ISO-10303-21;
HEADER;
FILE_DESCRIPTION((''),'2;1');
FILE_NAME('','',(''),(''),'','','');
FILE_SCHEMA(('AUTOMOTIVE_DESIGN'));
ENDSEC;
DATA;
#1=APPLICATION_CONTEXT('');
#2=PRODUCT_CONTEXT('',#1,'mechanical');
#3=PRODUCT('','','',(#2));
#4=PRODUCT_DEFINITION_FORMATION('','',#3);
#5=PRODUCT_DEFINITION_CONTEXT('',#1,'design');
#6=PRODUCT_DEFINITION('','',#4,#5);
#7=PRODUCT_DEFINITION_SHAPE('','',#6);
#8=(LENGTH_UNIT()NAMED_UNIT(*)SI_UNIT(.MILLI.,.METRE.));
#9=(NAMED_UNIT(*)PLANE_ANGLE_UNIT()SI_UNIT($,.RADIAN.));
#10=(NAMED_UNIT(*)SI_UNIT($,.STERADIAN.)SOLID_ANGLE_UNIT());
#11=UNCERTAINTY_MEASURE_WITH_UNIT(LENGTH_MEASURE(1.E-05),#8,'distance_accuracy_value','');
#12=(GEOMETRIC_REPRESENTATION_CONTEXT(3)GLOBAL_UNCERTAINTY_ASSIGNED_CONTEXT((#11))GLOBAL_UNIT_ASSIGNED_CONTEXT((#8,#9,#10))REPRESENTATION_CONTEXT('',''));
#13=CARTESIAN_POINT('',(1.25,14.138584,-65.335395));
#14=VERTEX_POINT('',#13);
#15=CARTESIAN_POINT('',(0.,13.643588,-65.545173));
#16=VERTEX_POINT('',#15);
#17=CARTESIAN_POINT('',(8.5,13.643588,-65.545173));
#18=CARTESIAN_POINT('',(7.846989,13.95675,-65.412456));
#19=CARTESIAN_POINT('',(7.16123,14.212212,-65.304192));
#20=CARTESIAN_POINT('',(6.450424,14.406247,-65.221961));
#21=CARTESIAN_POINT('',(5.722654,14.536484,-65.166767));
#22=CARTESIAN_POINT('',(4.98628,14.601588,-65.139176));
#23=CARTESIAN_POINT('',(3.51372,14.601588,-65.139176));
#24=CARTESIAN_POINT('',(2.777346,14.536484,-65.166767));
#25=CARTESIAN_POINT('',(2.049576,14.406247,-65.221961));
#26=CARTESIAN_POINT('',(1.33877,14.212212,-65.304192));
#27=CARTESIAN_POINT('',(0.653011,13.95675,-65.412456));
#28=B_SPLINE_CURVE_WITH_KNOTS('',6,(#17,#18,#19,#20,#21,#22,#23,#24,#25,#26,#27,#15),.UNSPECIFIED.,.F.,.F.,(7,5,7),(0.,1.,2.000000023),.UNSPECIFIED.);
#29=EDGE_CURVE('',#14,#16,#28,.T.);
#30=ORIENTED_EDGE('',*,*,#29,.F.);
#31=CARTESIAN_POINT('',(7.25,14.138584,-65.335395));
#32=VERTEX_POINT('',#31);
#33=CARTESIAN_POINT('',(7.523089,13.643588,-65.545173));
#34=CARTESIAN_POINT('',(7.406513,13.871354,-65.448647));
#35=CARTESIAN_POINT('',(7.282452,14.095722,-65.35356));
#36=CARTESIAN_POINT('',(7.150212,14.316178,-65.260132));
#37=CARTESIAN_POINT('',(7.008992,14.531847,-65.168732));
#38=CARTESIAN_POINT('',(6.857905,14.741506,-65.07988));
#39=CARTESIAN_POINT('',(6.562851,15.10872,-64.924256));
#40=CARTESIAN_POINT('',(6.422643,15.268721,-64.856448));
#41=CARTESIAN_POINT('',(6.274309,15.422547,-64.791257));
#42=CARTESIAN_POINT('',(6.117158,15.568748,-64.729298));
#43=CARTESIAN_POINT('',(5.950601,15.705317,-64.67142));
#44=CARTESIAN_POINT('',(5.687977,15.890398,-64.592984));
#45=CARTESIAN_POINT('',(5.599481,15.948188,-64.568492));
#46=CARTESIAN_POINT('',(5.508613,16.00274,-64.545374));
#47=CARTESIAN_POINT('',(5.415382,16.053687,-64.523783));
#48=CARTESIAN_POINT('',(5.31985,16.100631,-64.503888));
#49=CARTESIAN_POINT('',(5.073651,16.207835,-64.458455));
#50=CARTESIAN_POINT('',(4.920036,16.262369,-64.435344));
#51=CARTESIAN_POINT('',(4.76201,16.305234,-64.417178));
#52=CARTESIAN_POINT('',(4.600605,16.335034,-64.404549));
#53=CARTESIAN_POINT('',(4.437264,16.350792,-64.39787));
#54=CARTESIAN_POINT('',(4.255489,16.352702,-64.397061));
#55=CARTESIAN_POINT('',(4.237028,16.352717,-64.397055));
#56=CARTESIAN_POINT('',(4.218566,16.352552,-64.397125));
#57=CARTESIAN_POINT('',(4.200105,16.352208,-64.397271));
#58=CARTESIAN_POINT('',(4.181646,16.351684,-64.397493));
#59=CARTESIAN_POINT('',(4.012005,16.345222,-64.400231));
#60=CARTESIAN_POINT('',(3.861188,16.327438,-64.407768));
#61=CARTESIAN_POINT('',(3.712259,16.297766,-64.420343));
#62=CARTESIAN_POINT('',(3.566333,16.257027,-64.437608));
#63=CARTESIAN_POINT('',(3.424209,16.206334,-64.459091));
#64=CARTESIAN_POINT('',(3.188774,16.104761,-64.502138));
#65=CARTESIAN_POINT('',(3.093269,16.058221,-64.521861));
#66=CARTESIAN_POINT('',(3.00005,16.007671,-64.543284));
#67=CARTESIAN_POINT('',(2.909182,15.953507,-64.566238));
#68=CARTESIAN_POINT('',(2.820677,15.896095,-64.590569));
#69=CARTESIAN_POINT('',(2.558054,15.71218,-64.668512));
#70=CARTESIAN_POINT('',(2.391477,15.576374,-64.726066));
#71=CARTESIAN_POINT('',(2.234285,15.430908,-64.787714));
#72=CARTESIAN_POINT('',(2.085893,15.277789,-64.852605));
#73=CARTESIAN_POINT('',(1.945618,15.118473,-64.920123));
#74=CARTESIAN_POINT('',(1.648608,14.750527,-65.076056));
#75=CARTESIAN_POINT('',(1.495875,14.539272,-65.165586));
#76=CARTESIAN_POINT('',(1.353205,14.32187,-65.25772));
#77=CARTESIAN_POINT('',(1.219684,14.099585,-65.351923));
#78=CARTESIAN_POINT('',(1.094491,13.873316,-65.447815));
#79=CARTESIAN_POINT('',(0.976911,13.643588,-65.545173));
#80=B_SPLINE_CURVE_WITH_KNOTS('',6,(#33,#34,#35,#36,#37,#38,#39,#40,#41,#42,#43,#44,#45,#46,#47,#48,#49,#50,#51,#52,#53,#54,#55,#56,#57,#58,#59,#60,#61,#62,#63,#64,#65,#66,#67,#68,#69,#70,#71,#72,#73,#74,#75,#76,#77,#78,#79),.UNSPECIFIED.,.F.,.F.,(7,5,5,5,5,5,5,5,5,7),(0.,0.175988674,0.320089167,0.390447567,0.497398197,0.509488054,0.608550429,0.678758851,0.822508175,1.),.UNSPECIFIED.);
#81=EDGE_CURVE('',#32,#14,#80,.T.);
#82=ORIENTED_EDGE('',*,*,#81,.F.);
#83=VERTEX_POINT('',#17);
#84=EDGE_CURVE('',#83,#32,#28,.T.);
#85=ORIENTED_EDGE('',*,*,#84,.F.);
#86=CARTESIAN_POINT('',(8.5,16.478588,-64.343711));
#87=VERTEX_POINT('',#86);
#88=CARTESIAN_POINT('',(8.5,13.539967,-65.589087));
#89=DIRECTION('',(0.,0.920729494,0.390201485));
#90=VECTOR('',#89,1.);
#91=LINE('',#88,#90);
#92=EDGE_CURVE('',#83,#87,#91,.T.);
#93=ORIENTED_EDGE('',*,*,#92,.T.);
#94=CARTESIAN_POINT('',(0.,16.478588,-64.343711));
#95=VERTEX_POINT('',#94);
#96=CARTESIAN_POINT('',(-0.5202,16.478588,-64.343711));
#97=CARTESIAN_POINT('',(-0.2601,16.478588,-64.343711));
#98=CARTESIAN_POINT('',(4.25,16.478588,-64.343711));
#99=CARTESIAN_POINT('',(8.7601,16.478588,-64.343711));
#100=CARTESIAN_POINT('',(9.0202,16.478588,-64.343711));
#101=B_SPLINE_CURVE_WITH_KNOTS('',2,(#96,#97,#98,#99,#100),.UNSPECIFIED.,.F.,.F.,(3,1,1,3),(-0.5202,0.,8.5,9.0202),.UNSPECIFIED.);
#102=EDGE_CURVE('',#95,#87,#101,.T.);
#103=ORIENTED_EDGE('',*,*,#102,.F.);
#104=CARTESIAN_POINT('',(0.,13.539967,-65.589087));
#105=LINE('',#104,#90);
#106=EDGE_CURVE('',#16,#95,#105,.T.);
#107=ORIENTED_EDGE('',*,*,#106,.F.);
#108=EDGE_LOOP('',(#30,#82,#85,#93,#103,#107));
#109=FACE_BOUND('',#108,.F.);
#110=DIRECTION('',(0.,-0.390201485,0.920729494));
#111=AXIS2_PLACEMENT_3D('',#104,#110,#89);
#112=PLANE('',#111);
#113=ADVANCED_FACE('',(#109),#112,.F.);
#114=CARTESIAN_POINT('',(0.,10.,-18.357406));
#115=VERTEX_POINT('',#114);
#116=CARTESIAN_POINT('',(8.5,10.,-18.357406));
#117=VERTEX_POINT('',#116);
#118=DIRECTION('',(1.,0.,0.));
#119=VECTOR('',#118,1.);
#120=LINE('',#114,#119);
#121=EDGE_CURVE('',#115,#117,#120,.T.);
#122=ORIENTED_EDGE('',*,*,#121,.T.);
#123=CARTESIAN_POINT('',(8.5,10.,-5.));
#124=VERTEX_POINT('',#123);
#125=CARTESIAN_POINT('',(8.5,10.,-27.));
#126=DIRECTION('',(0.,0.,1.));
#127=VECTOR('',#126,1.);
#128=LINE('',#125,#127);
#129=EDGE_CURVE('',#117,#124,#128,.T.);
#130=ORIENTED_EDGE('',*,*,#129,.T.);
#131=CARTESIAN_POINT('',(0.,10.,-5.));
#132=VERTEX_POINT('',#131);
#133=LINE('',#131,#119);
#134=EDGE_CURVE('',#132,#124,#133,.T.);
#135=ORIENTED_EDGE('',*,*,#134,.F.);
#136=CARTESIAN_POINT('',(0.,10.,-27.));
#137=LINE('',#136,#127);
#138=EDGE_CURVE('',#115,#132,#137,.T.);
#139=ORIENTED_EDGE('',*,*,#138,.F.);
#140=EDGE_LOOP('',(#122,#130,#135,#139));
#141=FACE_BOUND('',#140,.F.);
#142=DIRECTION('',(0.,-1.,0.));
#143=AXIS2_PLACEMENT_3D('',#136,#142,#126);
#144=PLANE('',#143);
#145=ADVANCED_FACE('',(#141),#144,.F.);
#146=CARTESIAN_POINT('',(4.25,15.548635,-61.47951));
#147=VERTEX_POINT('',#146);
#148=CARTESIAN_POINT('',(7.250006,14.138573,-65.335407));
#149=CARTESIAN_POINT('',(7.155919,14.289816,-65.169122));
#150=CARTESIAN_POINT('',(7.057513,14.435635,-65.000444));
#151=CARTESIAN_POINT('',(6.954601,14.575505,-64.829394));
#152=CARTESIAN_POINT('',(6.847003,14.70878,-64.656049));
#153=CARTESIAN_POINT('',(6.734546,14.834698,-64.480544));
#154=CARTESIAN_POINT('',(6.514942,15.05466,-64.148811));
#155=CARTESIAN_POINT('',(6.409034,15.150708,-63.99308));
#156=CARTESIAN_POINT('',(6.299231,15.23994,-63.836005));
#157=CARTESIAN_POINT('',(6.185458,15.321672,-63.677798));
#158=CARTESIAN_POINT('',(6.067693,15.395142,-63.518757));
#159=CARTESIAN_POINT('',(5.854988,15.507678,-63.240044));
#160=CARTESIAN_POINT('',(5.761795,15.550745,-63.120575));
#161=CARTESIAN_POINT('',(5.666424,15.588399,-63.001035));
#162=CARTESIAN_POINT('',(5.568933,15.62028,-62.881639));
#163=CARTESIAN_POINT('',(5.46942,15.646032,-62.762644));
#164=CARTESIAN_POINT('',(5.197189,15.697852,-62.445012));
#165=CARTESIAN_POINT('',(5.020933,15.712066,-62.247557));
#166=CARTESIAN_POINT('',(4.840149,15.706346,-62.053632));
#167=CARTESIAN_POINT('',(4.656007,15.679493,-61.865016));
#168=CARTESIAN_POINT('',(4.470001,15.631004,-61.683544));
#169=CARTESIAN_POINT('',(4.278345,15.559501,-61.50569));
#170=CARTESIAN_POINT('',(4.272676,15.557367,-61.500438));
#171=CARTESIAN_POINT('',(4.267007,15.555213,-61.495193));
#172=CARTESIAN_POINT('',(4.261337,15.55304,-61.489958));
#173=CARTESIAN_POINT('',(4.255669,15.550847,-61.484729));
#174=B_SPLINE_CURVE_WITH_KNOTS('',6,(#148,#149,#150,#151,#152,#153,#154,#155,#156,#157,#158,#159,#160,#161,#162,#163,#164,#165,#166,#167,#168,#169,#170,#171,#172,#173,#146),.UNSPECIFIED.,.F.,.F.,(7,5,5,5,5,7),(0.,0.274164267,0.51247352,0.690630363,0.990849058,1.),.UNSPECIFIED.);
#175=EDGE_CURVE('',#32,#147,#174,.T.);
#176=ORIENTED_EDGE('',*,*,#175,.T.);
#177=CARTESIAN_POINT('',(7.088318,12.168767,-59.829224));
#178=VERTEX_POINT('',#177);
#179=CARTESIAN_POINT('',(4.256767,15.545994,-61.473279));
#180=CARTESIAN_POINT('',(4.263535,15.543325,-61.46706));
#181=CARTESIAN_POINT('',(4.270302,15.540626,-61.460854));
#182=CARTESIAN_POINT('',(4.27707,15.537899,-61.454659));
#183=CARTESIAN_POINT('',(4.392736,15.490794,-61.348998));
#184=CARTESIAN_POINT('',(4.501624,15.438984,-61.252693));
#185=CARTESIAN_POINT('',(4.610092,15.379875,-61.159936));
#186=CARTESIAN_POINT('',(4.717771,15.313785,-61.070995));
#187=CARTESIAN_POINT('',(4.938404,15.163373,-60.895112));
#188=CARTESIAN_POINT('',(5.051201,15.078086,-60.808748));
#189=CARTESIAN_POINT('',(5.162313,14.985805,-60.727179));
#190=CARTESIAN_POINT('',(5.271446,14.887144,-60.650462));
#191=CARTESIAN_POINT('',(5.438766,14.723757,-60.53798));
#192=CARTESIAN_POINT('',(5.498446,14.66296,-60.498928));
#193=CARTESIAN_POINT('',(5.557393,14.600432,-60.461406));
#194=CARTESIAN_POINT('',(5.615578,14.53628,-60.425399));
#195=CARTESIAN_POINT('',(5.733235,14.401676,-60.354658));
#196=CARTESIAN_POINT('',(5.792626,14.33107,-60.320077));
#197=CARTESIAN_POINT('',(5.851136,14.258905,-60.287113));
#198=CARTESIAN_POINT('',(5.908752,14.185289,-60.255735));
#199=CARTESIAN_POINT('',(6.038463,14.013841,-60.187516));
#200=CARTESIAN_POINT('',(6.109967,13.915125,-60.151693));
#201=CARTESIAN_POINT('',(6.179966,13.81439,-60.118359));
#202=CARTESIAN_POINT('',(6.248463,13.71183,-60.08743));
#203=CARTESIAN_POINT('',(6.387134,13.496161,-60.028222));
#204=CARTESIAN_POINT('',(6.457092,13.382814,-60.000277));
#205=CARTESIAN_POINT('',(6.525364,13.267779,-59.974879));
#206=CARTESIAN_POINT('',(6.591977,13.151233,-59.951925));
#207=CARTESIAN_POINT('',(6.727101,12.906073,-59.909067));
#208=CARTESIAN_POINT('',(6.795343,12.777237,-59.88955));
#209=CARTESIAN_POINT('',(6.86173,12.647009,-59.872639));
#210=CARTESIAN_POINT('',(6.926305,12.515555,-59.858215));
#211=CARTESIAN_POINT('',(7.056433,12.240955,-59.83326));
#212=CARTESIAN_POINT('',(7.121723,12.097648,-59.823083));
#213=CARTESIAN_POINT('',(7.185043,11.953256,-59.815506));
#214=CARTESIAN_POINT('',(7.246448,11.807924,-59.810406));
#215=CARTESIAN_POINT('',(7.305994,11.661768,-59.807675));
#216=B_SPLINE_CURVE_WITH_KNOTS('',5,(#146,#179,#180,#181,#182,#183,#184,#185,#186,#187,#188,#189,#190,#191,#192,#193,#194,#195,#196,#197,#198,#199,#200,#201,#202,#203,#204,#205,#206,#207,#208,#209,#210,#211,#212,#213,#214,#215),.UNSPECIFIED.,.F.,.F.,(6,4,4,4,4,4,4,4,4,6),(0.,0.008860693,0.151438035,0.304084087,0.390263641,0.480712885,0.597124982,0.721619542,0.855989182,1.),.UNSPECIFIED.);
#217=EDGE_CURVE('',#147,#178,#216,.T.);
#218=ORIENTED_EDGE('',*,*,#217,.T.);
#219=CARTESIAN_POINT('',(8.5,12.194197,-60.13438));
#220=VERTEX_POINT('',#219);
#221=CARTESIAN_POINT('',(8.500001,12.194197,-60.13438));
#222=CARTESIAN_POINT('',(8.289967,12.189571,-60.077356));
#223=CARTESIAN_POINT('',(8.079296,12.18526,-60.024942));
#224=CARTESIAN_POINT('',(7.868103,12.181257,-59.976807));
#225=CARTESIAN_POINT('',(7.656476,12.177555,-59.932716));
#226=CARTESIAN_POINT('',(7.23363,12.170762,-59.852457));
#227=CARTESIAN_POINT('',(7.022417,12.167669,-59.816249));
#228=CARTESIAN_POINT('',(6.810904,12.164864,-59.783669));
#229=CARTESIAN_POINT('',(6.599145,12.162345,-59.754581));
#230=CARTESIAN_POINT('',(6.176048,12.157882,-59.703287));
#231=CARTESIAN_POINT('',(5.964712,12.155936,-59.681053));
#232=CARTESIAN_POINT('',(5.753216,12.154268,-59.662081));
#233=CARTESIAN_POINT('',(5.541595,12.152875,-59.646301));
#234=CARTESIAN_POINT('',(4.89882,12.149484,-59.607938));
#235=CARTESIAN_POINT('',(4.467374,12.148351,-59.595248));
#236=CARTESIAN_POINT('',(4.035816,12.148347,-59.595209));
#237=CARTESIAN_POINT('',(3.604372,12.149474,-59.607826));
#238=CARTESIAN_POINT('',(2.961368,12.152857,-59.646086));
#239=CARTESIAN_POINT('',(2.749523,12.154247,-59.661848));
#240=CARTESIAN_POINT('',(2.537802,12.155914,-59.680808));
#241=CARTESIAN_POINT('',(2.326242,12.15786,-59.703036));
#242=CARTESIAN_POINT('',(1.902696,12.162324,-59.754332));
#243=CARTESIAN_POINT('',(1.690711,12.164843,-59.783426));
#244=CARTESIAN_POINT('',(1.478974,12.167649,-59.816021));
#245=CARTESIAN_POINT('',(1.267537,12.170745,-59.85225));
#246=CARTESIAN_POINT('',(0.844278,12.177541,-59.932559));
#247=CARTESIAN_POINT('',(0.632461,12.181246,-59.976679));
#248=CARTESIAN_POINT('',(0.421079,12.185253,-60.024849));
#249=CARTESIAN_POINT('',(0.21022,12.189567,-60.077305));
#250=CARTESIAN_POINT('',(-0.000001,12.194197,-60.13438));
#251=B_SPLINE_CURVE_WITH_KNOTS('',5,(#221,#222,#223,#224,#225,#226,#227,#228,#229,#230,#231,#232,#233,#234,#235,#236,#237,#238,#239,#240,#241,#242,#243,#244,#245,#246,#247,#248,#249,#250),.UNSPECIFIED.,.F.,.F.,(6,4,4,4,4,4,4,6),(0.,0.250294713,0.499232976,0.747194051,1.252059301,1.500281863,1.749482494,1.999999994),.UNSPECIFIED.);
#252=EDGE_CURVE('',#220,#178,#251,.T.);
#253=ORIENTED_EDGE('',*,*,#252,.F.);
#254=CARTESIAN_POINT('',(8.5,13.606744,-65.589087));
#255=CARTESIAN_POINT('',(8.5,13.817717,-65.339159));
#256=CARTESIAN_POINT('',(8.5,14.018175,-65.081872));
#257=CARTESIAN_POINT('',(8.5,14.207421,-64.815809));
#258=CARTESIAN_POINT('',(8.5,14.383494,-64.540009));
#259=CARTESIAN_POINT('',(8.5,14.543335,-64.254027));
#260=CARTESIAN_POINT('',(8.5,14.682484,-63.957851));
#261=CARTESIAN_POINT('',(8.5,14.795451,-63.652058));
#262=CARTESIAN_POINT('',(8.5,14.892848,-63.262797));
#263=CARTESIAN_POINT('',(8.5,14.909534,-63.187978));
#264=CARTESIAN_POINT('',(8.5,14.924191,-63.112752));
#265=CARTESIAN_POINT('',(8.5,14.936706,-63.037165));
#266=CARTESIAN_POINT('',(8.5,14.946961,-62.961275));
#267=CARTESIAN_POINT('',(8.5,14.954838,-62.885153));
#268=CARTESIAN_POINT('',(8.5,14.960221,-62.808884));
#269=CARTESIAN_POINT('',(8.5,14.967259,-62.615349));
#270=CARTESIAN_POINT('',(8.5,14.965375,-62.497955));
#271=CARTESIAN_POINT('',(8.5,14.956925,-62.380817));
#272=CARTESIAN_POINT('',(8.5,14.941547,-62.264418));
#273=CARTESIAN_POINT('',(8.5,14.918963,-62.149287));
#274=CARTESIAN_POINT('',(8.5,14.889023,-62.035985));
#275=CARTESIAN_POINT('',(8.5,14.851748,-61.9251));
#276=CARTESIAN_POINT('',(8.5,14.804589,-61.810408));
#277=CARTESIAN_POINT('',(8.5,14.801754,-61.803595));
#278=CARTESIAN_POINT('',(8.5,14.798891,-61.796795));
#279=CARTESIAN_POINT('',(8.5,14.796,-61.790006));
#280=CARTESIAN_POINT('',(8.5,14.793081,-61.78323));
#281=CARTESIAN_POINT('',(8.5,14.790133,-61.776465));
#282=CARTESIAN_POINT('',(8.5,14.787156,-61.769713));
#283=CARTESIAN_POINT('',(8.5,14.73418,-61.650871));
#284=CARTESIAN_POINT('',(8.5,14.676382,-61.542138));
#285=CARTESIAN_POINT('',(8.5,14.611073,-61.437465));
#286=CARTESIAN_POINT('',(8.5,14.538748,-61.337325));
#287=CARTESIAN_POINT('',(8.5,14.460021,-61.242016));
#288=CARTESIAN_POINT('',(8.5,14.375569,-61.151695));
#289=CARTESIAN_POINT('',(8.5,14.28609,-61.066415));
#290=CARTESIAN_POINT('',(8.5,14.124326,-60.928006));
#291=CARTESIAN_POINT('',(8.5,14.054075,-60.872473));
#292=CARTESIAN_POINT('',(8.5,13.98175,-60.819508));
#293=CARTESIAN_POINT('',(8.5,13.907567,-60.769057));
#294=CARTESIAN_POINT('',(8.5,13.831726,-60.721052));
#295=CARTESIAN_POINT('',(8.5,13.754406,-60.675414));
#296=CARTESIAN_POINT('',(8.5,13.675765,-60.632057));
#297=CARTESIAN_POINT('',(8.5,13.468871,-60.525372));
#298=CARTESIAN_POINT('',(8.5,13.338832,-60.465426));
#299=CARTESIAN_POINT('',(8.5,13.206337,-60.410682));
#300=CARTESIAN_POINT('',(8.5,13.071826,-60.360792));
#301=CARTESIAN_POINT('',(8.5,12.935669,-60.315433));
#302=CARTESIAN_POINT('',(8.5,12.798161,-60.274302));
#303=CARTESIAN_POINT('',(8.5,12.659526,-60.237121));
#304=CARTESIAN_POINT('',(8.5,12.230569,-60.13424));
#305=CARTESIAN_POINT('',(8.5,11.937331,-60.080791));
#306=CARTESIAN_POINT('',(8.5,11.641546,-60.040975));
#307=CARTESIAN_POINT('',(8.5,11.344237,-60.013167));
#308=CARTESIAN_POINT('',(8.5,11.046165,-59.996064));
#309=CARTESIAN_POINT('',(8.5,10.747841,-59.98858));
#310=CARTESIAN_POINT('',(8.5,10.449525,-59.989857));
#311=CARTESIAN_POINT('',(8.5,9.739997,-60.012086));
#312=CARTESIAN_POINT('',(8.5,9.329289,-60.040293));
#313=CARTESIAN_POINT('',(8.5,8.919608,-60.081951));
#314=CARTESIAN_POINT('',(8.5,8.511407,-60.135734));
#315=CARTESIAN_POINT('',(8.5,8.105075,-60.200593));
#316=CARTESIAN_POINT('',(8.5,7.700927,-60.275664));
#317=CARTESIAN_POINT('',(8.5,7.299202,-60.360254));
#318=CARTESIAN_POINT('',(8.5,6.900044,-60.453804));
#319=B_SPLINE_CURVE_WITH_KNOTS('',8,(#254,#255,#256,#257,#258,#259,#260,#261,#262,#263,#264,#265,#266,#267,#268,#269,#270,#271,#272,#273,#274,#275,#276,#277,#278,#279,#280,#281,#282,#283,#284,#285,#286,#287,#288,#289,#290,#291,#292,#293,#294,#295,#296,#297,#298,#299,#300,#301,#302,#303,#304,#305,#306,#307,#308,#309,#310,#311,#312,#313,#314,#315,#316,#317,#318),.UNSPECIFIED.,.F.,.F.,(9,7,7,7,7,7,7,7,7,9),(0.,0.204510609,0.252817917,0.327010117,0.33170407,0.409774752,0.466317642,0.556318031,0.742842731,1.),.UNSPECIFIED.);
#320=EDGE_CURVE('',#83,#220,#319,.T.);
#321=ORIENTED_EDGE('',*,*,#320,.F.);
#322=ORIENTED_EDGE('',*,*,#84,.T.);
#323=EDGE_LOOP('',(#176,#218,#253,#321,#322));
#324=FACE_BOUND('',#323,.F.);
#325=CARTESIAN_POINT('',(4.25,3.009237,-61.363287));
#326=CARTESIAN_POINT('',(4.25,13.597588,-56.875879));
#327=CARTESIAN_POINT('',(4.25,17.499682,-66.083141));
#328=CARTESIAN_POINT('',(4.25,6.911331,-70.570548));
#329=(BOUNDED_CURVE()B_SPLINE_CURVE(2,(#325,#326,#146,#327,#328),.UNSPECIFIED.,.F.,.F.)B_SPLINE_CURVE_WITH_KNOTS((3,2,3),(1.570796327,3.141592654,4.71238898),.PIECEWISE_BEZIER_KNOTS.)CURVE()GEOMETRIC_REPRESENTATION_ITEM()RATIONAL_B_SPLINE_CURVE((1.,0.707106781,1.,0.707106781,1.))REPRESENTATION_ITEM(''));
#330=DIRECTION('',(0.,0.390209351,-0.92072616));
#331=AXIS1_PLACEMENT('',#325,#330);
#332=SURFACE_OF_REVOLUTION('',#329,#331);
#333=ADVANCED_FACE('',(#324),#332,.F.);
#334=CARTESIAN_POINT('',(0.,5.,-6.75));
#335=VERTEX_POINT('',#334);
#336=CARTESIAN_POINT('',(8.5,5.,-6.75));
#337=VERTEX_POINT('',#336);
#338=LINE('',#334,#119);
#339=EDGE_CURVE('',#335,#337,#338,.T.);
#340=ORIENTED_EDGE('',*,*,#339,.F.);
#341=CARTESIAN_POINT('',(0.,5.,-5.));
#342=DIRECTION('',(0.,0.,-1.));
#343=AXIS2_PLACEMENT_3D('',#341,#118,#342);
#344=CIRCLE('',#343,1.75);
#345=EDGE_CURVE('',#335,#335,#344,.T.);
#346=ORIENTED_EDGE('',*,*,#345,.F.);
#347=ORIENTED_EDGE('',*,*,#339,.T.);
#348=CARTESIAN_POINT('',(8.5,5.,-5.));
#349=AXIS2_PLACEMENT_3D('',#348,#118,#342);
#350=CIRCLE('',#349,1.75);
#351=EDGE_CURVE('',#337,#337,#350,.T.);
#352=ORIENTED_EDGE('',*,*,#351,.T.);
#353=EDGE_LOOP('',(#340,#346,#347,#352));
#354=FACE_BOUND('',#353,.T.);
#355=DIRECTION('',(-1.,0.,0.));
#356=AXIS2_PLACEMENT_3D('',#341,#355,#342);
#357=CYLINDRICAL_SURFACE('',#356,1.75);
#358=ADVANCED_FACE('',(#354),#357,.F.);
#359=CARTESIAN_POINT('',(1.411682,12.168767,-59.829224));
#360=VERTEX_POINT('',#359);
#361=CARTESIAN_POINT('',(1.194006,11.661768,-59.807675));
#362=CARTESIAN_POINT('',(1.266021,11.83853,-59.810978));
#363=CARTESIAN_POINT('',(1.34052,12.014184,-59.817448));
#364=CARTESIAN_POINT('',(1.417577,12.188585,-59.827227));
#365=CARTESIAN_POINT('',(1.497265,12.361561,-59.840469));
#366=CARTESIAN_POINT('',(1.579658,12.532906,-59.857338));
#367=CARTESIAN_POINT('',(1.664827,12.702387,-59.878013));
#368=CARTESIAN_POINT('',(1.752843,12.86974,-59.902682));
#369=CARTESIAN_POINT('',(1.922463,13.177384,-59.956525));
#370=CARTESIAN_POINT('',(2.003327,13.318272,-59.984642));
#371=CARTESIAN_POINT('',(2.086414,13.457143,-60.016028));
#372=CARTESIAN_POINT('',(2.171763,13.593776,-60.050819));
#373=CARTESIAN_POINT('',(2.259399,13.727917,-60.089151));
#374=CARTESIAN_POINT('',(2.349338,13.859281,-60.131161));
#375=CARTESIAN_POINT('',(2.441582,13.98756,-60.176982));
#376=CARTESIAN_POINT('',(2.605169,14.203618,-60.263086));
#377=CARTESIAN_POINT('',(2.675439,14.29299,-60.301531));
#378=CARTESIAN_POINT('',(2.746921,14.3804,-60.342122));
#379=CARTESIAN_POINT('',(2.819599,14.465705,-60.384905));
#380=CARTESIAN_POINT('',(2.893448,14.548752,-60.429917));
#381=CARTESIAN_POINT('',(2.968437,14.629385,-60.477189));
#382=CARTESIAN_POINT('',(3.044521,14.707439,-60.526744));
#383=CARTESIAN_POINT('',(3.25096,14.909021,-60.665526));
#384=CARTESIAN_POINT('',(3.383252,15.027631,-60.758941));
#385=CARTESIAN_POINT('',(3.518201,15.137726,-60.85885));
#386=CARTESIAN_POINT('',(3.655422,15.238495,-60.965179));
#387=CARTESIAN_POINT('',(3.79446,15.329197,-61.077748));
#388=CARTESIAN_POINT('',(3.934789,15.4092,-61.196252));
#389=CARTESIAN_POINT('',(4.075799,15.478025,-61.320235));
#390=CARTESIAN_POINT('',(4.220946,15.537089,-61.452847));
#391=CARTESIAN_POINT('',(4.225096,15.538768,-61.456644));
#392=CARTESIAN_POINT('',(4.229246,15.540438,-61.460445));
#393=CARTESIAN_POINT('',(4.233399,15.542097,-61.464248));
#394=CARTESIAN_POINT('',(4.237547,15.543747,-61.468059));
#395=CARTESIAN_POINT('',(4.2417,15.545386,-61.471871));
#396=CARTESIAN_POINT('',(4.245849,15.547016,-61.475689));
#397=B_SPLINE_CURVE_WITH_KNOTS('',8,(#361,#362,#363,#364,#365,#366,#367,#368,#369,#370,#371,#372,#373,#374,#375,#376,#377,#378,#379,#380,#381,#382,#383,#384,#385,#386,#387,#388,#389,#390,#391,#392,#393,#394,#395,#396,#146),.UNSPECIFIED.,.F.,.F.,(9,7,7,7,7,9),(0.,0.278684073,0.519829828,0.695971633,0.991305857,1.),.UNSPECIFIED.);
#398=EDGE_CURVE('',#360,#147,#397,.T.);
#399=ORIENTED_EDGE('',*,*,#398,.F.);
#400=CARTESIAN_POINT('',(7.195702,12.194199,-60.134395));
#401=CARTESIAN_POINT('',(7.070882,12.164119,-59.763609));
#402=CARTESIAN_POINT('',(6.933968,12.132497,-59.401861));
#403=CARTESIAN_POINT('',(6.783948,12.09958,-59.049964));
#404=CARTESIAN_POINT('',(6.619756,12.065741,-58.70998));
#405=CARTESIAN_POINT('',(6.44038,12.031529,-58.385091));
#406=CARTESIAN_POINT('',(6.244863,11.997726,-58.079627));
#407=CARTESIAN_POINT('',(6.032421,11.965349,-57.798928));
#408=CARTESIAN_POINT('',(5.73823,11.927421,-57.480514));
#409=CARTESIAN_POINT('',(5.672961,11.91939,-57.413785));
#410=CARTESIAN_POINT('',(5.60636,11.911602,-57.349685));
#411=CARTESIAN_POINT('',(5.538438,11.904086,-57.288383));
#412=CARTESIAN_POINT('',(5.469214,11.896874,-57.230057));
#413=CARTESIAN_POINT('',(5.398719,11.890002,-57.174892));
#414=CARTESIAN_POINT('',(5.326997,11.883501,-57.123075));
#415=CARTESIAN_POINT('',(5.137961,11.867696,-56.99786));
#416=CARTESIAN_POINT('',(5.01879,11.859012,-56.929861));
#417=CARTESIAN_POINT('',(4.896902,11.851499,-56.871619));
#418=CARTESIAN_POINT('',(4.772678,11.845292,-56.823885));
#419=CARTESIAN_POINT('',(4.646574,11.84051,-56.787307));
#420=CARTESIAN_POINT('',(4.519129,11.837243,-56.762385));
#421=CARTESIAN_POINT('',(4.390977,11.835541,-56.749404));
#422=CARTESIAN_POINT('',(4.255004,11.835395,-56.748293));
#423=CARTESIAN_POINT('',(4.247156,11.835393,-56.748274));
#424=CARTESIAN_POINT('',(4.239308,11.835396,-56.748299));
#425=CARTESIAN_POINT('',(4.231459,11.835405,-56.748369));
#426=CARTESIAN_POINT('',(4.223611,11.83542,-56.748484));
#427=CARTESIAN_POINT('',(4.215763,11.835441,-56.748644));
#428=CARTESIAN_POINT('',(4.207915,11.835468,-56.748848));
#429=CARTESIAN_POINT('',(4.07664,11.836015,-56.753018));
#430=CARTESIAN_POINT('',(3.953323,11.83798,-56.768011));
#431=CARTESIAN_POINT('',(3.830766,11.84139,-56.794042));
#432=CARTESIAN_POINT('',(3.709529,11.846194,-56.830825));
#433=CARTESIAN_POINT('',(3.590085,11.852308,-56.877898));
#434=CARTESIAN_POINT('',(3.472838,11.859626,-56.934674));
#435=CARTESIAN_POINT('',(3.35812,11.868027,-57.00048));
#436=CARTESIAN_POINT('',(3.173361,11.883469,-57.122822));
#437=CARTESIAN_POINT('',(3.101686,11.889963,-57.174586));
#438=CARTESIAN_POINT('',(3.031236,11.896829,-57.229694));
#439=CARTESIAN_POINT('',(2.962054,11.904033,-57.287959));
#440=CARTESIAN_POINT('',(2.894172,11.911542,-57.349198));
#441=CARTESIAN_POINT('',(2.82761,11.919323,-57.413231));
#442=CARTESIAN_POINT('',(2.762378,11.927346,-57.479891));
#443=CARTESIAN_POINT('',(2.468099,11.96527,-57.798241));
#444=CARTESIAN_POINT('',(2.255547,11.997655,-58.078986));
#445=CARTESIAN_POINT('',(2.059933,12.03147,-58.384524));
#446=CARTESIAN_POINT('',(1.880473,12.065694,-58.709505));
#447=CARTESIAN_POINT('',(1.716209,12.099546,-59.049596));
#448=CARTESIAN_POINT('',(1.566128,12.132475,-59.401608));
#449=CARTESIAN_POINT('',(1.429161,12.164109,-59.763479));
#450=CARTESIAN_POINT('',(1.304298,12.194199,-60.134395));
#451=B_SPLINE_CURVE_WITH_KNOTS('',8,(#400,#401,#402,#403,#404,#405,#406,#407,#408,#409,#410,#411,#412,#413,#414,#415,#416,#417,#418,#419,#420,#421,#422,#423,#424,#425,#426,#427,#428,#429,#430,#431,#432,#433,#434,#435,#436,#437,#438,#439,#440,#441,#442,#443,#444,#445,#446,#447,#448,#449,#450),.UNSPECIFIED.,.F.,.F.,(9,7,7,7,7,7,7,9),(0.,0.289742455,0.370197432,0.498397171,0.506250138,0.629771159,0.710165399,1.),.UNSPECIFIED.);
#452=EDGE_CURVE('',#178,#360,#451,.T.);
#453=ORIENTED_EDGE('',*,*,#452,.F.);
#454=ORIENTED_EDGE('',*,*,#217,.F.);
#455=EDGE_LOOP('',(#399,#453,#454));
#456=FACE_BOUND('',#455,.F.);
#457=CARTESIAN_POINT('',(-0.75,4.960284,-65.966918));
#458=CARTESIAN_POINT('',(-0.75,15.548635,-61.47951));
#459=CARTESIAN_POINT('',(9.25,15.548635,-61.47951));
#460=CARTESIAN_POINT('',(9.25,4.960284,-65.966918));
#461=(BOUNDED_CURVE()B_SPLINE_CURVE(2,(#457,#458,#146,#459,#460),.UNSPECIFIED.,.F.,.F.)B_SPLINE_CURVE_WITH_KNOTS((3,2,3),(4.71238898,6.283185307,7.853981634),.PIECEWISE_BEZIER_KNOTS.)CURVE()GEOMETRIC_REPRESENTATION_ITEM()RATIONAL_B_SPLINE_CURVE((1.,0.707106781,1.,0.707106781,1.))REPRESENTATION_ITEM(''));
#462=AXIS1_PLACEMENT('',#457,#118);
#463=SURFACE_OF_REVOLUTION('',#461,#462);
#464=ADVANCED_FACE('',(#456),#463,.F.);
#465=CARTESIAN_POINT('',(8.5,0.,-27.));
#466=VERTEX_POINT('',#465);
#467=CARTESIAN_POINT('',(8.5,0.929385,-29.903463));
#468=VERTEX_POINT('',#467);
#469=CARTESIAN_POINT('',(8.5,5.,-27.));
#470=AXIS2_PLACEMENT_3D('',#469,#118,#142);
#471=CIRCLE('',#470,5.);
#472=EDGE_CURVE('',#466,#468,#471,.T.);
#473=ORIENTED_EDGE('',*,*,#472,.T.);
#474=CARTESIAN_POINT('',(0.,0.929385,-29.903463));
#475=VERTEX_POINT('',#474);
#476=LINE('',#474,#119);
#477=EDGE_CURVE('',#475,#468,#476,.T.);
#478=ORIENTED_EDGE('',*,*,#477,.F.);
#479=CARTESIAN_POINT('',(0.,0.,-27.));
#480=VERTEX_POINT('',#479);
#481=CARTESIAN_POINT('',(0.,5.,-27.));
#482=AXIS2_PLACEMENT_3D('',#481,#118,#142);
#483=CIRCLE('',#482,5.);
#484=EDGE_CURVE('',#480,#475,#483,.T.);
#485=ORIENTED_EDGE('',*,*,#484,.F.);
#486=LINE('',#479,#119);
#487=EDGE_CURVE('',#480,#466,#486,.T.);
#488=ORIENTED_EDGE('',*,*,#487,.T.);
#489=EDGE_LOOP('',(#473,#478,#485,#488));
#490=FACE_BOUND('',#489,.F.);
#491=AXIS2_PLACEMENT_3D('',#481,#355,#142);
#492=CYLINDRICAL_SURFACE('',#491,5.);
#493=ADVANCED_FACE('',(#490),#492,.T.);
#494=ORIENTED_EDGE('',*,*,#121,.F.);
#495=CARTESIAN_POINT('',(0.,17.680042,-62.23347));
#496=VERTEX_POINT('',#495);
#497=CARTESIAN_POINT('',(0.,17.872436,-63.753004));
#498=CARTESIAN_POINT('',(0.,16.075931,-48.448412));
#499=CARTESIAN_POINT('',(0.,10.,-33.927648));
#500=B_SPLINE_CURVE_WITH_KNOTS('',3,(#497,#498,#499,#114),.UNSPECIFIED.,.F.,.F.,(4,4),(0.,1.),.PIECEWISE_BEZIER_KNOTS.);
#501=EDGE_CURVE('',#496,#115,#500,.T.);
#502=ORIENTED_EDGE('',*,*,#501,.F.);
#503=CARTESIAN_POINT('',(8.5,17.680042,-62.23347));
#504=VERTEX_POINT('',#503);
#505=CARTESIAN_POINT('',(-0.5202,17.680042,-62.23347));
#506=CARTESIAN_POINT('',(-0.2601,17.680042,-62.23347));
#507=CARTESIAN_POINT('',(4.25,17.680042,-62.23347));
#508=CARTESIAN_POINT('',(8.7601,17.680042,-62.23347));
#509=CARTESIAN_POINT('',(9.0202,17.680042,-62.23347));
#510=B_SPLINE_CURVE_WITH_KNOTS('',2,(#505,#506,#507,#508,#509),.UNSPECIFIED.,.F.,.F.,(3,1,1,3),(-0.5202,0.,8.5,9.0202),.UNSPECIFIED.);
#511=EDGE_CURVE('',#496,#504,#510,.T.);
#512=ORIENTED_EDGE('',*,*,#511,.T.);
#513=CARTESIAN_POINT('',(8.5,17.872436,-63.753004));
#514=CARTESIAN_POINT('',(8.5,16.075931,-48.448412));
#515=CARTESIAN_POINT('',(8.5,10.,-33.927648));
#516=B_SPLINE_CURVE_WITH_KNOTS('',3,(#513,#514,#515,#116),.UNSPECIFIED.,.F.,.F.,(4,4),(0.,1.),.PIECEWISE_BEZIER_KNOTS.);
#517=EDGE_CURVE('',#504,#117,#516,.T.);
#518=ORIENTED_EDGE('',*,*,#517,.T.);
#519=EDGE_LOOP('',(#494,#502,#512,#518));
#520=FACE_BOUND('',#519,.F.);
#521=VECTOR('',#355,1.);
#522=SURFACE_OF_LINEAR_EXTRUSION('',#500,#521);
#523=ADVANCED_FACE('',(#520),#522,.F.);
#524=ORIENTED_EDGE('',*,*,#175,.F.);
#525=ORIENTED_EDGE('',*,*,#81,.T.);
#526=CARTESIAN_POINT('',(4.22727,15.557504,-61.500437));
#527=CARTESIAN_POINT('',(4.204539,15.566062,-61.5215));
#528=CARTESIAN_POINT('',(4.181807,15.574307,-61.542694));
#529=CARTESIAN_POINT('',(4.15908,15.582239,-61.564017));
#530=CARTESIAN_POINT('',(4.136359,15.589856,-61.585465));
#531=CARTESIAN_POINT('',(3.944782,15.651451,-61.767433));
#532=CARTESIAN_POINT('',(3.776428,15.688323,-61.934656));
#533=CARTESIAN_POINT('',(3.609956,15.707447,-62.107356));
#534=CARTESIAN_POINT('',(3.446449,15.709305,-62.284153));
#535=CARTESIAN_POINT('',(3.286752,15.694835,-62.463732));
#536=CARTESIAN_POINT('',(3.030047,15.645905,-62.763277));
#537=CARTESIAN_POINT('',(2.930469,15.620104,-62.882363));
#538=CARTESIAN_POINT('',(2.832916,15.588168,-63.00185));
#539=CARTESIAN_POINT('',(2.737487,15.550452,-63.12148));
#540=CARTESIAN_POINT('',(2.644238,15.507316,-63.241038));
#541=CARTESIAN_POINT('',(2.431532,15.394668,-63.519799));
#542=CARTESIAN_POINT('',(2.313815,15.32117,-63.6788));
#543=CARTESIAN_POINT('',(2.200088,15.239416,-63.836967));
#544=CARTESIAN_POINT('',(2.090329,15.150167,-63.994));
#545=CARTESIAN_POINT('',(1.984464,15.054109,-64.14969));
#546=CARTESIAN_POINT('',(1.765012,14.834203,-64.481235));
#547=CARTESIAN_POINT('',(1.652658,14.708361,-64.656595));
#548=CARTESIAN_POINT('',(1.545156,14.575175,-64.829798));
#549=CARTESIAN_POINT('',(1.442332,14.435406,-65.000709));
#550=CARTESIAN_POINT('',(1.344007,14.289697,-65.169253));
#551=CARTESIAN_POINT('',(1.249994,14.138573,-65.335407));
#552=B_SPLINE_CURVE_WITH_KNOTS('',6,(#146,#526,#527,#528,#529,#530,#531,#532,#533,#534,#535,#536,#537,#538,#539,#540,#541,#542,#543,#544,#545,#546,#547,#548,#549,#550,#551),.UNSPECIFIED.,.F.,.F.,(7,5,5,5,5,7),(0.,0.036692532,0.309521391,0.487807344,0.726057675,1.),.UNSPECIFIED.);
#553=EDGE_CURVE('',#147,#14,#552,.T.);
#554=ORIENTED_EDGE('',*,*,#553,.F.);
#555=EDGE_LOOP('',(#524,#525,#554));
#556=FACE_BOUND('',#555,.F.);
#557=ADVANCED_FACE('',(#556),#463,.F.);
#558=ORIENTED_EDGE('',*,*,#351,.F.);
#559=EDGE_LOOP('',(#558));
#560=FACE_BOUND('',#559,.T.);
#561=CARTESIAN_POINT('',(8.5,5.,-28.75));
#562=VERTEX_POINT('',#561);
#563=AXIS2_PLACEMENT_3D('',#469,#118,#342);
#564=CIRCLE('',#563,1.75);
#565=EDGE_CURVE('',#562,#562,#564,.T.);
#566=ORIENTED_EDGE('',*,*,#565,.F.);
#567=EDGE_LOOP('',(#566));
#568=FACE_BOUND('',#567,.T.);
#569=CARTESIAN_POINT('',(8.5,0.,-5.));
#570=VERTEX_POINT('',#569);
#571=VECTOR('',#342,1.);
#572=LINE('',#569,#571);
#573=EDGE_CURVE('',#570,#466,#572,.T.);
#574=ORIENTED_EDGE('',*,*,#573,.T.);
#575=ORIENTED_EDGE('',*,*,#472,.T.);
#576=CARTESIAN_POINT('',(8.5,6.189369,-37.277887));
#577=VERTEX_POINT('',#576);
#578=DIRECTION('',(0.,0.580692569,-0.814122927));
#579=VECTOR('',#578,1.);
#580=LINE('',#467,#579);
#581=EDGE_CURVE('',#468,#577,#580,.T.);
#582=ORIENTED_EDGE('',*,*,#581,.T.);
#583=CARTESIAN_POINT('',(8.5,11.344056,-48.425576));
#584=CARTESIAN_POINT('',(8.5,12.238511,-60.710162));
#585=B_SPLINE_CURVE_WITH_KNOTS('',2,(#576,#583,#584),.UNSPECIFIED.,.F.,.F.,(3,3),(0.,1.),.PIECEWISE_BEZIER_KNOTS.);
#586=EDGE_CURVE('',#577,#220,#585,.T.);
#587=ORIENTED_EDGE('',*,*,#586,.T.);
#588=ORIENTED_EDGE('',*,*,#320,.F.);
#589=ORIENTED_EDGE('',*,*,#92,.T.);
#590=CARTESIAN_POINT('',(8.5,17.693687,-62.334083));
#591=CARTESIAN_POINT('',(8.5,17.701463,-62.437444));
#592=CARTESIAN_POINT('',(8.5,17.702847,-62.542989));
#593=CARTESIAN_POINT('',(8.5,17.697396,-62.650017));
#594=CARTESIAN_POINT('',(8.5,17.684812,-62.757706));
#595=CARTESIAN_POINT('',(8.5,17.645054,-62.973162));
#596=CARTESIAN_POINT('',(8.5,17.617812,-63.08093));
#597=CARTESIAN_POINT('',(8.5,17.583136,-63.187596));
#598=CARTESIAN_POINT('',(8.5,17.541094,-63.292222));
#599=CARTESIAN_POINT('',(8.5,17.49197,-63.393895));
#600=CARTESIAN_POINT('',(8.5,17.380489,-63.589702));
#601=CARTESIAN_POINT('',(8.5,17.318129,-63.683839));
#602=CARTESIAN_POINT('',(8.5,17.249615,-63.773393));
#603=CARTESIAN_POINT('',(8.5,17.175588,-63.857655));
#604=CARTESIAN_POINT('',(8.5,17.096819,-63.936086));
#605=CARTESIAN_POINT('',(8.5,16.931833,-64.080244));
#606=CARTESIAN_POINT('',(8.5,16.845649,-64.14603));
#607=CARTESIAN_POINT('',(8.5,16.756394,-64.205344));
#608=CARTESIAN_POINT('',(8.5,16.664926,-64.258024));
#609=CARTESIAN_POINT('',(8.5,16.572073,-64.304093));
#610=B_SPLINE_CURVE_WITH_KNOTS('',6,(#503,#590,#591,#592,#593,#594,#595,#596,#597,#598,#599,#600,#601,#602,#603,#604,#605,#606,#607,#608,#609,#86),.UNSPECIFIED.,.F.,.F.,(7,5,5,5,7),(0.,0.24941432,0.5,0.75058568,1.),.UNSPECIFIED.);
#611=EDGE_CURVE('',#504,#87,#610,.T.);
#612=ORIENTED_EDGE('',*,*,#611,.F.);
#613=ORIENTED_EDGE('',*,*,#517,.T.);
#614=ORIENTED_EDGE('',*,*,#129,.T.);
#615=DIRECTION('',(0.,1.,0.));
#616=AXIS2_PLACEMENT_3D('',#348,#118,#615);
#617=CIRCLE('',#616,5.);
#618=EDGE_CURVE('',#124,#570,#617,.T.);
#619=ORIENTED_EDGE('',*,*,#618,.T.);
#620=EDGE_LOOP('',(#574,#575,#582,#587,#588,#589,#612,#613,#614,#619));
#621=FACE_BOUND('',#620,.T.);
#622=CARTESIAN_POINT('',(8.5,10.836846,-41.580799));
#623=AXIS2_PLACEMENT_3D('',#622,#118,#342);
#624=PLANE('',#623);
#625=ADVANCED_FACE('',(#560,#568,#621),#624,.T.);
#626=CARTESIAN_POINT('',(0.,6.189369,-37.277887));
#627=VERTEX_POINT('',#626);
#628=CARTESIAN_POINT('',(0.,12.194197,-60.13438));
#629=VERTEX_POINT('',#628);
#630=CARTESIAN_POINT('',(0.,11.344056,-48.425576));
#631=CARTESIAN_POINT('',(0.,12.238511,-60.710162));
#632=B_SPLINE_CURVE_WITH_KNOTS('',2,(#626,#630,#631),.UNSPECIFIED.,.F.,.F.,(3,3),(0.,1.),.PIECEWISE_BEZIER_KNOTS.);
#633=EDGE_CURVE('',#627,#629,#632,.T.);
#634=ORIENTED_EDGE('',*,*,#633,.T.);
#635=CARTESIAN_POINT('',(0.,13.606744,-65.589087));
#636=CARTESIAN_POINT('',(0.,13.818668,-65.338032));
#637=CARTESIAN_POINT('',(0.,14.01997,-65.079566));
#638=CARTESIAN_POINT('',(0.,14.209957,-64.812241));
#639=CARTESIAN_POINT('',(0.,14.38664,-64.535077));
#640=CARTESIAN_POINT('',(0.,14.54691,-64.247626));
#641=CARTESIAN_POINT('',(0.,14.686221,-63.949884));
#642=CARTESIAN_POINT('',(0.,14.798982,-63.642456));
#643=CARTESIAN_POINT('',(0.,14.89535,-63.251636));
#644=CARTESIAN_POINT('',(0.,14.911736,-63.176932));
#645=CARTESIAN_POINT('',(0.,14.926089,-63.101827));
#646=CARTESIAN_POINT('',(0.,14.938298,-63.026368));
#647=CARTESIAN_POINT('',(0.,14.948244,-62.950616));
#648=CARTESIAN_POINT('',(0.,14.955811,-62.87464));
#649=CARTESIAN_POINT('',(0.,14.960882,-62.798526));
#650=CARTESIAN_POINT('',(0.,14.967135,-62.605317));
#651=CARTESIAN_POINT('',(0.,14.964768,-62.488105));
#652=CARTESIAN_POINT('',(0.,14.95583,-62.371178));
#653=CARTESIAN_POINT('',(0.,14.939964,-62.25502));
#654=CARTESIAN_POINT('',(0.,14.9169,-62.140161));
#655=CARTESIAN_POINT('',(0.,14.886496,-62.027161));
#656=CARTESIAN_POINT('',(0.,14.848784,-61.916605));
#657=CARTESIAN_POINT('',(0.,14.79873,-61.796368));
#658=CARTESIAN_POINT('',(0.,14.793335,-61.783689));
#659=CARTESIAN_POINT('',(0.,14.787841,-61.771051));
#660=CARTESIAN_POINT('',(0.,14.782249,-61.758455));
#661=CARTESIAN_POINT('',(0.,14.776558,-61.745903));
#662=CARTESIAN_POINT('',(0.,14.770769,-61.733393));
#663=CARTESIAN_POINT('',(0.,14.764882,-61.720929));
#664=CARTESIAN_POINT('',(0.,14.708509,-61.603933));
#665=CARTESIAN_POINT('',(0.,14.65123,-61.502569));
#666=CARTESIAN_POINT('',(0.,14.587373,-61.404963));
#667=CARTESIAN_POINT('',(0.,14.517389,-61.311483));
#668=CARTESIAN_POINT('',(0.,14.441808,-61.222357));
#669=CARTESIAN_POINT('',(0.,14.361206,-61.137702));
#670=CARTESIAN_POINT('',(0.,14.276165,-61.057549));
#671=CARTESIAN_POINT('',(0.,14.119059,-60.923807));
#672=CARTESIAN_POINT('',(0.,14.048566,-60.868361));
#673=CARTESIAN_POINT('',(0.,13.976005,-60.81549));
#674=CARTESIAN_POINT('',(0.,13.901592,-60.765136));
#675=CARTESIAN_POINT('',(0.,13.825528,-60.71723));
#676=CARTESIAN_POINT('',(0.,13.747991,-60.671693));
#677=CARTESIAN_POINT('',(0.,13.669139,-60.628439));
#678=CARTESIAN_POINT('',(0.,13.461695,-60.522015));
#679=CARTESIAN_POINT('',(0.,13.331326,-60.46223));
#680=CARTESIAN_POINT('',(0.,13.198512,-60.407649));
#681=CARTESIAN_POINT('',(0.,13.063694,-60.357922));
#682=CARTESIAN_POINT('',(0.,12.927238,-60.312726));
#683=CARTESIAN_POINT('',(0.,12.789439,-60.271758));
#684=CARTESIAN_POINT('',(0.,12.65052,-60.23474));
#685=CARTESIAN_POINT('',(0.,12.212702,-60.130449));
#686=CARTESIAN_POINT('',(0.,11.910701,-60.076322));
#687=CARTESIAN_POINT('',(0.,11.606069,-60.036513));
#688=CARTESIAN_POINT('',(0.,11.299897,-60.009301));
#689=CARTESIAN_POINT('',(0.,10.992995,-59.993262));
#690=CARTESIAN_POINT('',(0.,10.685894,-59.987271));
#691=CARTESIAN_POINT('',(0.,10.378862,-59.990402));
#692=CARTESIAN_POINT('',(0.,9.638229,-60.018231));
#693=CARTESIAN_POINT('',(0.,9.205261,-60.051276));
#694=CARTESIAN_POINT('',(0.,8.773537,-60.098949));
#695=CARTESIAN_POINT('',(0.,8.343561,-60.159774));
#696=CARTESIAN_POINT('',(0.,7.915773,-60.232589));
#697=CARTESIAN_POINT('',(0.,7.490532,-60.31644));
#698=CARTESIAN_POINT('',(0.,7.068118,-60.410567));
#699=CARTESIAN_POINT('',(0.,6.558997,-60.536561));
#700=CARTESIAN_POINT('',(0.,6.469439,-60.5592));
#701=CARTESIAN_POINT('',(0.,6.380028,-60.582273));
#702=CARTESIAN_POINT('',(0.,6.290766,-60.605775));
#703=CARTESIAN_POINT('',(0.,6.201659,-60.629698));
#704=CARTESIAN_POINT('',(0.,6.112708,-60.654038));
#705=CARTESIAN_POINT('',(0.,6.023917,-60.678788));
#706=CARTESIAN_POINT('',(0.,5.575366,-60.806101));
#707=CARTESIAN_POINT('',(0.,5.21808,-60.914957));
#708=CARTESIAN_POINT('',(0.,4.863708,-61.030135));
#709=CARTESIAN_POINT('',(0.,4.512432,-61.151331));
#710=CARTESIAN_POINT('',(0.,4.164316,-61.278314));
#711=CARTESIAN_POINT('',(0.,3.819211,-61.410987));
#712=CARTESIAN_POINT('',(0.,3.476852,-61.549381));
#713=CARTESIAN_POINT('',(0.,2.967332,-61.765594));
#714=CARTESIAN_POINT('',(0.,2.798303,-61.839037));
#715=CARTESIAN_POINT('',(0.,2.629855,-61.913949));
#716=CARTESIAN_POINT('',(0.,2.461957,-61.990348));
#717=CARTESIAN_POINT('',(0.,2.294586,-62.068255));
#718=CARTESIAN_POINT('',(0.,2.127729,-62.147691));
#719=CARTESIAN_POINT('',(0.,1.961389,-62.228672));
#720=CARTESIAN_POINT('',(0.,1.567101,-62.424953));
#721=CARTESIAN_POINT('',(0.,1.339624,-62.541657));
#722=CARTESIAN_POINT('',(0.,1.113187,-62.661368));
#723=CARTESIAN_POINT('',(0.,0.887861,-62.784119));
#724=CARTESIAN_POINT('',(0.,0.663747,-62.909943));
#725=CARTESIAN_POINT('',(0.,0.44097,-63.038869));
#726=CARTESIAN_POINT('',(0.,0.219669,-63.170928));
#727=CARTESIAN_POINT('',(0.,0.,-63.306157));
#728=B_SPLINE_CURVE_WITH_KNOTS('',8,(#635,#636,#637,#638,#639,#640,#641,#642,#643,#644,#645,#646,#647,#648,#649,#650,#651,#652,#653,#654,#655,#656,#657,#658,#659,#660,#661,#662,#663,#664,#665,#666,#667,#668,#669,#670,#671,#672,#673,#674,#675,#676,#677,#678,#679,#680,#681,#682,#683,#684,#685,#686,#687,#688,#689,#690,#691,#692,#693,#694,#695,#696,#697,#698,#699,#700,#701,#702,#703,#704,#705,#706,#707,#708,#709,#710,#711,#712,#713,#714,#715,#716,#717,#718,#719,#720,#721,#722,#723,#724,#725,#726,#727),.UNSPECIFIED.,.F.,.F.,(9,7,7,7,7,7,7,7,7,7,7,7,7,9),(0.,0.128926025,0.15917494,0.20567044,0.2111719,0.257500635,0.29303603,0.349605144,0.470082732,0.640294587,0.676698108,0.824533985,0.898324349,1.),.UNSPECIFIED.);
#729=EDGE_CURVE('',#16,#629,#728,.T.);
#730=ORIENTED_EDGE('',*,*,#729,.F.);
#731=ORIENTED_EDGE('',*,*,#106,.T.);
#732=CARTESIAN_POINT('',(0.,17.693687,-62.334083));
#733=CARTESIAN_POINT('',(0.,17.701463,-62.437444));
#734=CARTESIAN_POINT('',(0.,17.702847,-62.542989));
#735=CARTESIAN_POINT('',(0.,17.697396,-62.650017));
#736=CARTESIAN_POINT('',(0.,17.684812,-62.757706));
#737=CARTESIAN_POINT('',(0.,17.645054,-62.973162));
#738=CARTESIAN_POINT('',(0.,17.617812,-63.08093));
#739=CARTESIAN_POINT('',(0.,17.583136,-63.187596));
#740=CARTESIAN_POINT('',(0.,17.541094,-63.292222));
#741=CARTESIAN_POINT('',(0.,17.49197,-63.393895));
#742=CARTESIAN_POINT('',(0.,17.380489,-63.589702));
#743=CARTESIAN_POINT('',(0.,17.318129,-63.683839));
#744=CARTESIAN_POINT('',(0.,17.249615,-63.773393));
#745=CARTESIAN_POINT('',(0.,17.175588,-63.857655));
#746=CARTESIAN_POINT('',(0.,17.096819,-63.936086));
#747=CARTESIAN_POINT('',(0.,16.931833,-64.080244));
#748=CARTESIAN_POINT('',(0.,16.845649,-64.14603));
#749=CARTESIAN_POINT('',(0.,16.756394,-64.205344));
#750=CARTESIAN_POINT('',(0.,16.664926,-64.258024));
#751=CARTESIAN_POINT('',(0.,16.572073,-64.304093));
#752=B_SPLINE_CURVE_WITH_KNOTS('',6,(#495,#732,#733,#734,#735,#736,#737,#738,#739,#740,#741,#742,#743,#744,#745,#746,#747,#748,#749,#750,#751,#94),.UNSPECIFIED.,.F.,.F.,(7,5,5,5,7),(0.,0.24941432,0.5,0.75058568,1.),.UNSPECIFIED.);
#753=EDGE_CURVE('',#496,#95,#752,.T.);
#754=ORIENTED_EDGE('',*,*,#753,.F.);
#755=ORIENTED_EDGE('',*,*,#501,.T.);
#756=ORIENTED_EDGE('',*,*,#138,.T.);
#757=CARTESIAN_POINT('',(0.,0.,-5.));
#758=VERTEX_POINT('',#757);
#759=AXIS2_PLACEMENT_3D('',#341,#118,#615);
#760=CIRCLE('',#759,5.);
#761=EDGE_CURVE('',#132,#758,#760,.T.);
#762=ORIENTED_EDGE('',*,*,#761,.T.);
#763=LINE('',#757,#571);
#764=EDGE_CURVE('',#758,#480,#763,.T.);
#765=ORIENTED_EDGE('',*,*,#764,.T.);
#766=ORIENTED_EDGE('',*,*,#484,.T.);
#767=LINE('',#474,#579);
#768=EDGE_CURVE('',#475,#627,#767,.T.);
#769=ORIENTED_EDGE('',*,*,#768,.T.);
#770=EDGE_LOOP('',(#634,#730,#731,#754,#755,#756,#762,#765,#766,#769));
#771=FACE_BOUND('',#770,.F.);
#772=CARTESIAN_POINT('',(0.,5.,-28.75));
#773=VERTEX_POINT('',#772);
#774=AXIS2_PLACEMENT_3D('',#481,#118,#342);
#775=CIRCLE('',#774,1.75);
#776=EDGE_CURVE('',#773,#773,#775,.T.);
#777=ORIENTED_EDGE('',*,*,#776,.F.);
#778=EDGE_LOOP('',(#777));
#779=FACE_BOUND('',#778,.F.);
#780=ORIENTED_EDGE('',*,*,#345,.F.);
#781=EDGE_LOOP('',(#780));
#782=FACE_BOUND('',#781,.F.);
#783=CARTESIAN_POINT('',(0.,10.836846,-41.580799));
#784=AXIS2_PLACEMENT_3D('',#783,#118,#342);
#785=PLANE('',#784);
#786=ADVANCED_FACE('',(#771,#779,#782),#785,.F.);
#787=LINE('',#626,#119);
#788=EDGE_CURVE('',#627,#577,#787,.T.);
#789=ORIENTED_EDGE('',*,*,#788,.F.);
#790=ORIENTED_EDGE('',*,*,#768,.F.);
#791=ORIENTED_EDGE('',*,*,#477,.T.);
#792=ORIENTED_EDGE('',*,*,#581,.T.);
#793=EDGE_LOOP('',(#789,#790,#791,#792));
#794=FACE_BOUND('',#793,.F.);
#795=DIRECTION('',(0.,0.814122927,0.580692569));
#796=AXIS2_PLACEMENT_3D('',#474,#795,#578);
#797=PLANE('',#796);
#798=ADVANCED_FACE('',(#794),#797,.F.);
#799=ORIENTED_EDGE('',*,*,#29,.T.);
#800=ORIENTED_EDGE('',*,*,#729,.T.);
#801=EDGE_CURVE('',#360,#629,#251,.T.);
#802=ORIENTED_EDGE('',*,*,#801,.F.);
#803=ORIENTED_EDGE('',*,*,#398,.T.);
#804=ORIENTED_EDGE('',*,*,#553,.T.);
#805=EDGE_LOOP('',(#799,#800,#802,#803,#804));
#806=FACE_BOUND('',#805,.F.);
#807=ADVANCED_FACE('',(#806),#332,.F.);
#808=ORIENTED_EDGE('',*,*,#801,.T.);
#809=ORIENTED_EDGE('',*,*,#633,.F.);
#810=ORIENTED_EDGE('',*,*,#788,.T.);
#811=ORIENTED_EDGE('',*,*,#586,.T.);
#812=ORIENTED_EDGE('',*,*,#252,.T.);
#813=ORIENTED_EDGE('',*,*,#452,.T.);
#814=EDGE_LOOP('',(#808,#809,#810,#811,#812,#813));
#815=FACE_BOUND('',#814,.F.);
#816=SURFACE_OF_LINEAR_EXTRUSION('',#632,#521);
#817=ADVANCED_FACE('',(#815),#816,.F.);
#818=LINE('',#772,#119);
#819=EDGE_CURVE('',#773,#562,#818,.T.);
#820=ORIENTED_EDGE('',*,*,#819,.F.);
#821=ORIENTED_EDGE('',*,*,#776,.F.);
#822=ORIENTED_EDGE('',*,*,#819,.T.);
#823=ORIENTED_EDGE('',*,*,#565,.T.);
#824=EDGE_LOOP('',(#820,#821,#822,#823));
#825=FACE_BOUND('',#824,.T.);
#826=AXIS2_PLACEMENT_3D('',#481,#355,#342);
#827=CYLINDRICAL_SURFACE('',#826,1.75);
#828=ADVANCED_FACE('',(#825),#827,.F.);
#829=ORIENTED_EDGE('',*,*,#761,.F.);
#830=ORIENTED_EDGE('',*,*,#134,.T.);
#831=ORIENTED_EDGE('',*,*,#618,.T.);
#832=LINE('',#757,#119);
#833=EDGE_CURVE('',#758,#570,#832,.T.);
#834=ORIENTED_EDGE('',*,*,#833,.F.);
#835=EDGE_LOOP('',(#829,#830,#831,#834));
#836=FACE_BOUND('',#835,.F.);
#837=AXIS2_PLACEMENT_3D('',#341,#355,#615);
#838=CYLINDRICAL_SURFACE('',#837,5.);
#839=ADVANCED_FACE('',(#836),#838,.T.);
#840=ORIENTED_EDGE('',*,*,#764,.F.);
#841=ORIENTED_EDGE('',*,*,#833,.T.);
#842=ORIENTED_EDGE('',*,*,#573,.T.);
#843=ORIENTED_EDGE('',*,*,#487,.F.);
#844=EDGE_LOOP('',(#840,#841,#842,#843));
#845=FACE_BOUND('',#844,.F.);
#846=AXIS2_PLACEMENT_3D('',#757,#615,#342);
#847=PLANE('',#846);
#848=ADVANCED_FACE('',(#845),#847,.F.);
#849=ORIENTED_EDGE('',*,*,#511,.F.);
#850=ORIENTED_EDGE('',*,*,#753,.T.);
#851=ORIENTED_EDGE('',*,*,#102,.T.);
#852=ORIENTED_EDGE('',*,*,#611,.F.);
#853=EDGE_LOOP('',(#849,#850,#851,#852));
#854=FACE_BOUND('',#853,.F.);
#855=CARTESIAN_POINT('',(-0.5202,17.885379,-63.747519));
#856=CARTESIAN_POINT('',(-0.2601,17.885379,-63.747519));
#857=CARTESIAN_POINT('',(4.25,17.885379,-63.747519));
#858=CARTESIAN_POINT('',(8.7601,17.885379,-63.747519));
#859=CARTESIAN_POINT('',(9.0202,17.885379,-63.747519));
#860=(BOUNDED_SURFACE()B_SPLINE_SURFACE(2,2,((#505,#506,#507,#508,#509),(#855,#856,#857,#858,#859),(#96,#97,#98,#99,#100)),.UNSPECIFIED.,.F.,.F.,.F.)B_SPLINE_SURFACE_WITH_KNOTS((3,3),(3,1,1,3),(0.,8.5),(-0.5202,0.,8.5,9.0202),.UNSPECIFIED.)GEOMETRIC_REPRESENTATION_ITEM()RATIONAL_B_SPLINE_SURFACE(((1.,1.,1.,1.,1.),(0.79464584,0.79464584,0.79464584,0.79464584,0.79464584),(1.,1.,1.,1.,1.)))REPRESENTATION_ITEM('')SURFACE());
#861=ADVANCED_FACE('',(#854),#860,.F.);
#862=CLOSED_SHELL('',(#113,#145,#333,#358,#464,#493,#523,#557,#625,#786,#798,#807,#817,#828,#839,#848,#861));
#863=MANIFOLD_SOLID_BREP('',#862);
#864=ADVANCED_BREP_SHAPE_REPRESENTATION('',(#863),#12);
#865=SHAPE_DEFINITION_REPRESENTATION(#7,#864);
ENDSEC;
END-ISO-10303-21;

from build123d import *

# Parameters (mm, degrees)
SKETCH1_R           = 1.7499999999999998
SKETCH1_R_2         = 1.7500000000000002
BOSS_EXTRUDE1_DEPTH = 8.5
BOSS_EXTRUDE2_START = -8.5
BOSS_EXTRUDE2_DEPTH = 8.5
FILLET1_R           = 2


with BuildPart() as part:
    # Sketch1 → Boss-Extrude1 (new body)
    with BuildSketch(Plane(origin=(0, 0, 0), x_dir=(0, 0, -1), z_dir=(1, 0, 0))):
        with BuildLine():
            Line((27, 10), (4.999999999999845, 10))
            ThreePointArc((4.999999999999845, 9.999999999999996), (2.66e-15, 4.999999999999989), (4.999999999999866, 2.66e-15))
            Line((4.999999999999866, 0), (27, 0))
            ThreePointArc((27, -8.9e-16), (32, 5), (27, 10))
        make_face()
        with Locations((5, 5)):
            Circle(SKETCH1_R, mode=Mode.SUBTRACT)
        with Locations((27, 5)):
            Circle(SKETCH1_R_2, mode=Mode.SUBTRACT)
    extrude(amount=BOSS_EXTRUDE1_DEPTH)

    # Sketch2 → Boss-Extrude2 (add)
    with BuildSketch(Plane(origin=(8.5, 0, 0), x_dir=(0, 0, -1), z_dir=(1, 0, 0)).offset(BOSS_EXTRUDE2_START)):
        with BuildLine():
            add(Edge.make_bspline(
                [(63.753003749139694, 17.8724364513696), (48.4484123726985, 16.075931173157382), (33.927648133343, 10.00000000000011), (18.35740593050513, 10)],
                knots=[0, 0, 0, 0, 1, 1, 1, 1], degree=3))
            Line((18.35740593050513, 10), (27, 10.000000000000002))
            ThreePointArc((27, 10.000000000000004), (31.76198872224619, 6.524291116945876), (29.90346284332652, 0.9293853636800407))
            Line((29.903462843326523, 0.9293853636800362), (37.27788733358429, 6.189369275529155))
            add(Edge.make_bspline(
                [(37.27788733358429, 6.189369275529155), (48.425576395597574, 11.344056029156562), (60.710162222104955, 12.2385110488325)],
                knots=[0, 0, 0, 1, 1, 1], degree=2))
            Line((60.710162222104955, 12.238511048832498), (65.58908690842728, 13.539967250903384))
            Line((65.58908690842728, 13.539967250903384), (63.753003749139694, 17.8724364513696))
        make_face()
    extrude(amount=BOSS_EXTRUDE2_DEPTH)

    # Sketch3 → Cut-Revolve1 (revolve, cut)
    with BuildSketch(Plane.ZY.offset(-4.25)):
        with BuildLine():
            Line((-61.363286830934264, 3.0092373204057665), (-70.57054843387056, 6.911330832239489))
            add(Edge.make_bspline(
                [(-61.363286830934264, 3.0092373204057665), (-56.87587929232551, 13.597588163782518), (-61.47951009379365, 15.548634919699378), (-66.08314089526179, 17.499681675616234), (-70.57054843387056, 6.911330832239489)],
                knots=[1.5707963267948968, 1.5707963267948968, 1.5707963267948968, 3.141592653589793, 3.141592653589793, 4.71238898038469, 4.71238898038469, 4.71238898038469], degree=2, weights=[1, 0.7071067811865477, 1, 0.7071067811865477, 1]))
        make_face()
    revolve(axis=Axis((4.25, 3.0092373204057665, -61.363286830934264), (0, 0.3902093511833724, -0.9207261602936302)), mode=Mode.SUBTRACT)

    # Fillet1
    fillet1_edges = [part.edges().sort_by_distance(p)[0] for p in [
        (4.25, 17.8724364513696, -63.753003749139694),
    ]]
    fillet(fillet1_edges, radius=FILLET1_R)

    # Sketch4 → Cut-Revolve4 (revolve, cut)
    with BuildSketch(Plane(origin=(0, 24.455596913653128, -57.70468538416743), x_dir=(0, -0.9207261602936302, -0.39020935118337224), z_dir=(0, 0.39020935118337224, -0.9207261602936302))):
        with BuildLine():
            Line((21.173844817348538, 0.7500000000000007), (21.173844817348538, -9.250000000000004))
            add(Edge.make_bspline(
                [(21.173844817348538, 0.7500000000000007), (9.67384481734854, 0.7500000000000027), (9.673844817348536, -4.249999999999997), (9.673844817348535, -9.249999999999996), (21.173844817348538, -9.250000000000004)],
                knots=[4.71238898038469, 4.71238898038469, 4.71238898038469, 6.283185307179586, 6.283185307179586, 7.853981633974483, 7.853981633974483, 7.853981633974483], degree=2, weights=[1, 0.7071067811865476, 1, 0.7071067811865476, 1]))
        make_face()
    revolve(axis=Axis((-0.7500000000000007, 4.960284076322628, -65.96691763240241), (1, 0, 0)), mode=Mode.SUBTRACT)


solid = part.part
